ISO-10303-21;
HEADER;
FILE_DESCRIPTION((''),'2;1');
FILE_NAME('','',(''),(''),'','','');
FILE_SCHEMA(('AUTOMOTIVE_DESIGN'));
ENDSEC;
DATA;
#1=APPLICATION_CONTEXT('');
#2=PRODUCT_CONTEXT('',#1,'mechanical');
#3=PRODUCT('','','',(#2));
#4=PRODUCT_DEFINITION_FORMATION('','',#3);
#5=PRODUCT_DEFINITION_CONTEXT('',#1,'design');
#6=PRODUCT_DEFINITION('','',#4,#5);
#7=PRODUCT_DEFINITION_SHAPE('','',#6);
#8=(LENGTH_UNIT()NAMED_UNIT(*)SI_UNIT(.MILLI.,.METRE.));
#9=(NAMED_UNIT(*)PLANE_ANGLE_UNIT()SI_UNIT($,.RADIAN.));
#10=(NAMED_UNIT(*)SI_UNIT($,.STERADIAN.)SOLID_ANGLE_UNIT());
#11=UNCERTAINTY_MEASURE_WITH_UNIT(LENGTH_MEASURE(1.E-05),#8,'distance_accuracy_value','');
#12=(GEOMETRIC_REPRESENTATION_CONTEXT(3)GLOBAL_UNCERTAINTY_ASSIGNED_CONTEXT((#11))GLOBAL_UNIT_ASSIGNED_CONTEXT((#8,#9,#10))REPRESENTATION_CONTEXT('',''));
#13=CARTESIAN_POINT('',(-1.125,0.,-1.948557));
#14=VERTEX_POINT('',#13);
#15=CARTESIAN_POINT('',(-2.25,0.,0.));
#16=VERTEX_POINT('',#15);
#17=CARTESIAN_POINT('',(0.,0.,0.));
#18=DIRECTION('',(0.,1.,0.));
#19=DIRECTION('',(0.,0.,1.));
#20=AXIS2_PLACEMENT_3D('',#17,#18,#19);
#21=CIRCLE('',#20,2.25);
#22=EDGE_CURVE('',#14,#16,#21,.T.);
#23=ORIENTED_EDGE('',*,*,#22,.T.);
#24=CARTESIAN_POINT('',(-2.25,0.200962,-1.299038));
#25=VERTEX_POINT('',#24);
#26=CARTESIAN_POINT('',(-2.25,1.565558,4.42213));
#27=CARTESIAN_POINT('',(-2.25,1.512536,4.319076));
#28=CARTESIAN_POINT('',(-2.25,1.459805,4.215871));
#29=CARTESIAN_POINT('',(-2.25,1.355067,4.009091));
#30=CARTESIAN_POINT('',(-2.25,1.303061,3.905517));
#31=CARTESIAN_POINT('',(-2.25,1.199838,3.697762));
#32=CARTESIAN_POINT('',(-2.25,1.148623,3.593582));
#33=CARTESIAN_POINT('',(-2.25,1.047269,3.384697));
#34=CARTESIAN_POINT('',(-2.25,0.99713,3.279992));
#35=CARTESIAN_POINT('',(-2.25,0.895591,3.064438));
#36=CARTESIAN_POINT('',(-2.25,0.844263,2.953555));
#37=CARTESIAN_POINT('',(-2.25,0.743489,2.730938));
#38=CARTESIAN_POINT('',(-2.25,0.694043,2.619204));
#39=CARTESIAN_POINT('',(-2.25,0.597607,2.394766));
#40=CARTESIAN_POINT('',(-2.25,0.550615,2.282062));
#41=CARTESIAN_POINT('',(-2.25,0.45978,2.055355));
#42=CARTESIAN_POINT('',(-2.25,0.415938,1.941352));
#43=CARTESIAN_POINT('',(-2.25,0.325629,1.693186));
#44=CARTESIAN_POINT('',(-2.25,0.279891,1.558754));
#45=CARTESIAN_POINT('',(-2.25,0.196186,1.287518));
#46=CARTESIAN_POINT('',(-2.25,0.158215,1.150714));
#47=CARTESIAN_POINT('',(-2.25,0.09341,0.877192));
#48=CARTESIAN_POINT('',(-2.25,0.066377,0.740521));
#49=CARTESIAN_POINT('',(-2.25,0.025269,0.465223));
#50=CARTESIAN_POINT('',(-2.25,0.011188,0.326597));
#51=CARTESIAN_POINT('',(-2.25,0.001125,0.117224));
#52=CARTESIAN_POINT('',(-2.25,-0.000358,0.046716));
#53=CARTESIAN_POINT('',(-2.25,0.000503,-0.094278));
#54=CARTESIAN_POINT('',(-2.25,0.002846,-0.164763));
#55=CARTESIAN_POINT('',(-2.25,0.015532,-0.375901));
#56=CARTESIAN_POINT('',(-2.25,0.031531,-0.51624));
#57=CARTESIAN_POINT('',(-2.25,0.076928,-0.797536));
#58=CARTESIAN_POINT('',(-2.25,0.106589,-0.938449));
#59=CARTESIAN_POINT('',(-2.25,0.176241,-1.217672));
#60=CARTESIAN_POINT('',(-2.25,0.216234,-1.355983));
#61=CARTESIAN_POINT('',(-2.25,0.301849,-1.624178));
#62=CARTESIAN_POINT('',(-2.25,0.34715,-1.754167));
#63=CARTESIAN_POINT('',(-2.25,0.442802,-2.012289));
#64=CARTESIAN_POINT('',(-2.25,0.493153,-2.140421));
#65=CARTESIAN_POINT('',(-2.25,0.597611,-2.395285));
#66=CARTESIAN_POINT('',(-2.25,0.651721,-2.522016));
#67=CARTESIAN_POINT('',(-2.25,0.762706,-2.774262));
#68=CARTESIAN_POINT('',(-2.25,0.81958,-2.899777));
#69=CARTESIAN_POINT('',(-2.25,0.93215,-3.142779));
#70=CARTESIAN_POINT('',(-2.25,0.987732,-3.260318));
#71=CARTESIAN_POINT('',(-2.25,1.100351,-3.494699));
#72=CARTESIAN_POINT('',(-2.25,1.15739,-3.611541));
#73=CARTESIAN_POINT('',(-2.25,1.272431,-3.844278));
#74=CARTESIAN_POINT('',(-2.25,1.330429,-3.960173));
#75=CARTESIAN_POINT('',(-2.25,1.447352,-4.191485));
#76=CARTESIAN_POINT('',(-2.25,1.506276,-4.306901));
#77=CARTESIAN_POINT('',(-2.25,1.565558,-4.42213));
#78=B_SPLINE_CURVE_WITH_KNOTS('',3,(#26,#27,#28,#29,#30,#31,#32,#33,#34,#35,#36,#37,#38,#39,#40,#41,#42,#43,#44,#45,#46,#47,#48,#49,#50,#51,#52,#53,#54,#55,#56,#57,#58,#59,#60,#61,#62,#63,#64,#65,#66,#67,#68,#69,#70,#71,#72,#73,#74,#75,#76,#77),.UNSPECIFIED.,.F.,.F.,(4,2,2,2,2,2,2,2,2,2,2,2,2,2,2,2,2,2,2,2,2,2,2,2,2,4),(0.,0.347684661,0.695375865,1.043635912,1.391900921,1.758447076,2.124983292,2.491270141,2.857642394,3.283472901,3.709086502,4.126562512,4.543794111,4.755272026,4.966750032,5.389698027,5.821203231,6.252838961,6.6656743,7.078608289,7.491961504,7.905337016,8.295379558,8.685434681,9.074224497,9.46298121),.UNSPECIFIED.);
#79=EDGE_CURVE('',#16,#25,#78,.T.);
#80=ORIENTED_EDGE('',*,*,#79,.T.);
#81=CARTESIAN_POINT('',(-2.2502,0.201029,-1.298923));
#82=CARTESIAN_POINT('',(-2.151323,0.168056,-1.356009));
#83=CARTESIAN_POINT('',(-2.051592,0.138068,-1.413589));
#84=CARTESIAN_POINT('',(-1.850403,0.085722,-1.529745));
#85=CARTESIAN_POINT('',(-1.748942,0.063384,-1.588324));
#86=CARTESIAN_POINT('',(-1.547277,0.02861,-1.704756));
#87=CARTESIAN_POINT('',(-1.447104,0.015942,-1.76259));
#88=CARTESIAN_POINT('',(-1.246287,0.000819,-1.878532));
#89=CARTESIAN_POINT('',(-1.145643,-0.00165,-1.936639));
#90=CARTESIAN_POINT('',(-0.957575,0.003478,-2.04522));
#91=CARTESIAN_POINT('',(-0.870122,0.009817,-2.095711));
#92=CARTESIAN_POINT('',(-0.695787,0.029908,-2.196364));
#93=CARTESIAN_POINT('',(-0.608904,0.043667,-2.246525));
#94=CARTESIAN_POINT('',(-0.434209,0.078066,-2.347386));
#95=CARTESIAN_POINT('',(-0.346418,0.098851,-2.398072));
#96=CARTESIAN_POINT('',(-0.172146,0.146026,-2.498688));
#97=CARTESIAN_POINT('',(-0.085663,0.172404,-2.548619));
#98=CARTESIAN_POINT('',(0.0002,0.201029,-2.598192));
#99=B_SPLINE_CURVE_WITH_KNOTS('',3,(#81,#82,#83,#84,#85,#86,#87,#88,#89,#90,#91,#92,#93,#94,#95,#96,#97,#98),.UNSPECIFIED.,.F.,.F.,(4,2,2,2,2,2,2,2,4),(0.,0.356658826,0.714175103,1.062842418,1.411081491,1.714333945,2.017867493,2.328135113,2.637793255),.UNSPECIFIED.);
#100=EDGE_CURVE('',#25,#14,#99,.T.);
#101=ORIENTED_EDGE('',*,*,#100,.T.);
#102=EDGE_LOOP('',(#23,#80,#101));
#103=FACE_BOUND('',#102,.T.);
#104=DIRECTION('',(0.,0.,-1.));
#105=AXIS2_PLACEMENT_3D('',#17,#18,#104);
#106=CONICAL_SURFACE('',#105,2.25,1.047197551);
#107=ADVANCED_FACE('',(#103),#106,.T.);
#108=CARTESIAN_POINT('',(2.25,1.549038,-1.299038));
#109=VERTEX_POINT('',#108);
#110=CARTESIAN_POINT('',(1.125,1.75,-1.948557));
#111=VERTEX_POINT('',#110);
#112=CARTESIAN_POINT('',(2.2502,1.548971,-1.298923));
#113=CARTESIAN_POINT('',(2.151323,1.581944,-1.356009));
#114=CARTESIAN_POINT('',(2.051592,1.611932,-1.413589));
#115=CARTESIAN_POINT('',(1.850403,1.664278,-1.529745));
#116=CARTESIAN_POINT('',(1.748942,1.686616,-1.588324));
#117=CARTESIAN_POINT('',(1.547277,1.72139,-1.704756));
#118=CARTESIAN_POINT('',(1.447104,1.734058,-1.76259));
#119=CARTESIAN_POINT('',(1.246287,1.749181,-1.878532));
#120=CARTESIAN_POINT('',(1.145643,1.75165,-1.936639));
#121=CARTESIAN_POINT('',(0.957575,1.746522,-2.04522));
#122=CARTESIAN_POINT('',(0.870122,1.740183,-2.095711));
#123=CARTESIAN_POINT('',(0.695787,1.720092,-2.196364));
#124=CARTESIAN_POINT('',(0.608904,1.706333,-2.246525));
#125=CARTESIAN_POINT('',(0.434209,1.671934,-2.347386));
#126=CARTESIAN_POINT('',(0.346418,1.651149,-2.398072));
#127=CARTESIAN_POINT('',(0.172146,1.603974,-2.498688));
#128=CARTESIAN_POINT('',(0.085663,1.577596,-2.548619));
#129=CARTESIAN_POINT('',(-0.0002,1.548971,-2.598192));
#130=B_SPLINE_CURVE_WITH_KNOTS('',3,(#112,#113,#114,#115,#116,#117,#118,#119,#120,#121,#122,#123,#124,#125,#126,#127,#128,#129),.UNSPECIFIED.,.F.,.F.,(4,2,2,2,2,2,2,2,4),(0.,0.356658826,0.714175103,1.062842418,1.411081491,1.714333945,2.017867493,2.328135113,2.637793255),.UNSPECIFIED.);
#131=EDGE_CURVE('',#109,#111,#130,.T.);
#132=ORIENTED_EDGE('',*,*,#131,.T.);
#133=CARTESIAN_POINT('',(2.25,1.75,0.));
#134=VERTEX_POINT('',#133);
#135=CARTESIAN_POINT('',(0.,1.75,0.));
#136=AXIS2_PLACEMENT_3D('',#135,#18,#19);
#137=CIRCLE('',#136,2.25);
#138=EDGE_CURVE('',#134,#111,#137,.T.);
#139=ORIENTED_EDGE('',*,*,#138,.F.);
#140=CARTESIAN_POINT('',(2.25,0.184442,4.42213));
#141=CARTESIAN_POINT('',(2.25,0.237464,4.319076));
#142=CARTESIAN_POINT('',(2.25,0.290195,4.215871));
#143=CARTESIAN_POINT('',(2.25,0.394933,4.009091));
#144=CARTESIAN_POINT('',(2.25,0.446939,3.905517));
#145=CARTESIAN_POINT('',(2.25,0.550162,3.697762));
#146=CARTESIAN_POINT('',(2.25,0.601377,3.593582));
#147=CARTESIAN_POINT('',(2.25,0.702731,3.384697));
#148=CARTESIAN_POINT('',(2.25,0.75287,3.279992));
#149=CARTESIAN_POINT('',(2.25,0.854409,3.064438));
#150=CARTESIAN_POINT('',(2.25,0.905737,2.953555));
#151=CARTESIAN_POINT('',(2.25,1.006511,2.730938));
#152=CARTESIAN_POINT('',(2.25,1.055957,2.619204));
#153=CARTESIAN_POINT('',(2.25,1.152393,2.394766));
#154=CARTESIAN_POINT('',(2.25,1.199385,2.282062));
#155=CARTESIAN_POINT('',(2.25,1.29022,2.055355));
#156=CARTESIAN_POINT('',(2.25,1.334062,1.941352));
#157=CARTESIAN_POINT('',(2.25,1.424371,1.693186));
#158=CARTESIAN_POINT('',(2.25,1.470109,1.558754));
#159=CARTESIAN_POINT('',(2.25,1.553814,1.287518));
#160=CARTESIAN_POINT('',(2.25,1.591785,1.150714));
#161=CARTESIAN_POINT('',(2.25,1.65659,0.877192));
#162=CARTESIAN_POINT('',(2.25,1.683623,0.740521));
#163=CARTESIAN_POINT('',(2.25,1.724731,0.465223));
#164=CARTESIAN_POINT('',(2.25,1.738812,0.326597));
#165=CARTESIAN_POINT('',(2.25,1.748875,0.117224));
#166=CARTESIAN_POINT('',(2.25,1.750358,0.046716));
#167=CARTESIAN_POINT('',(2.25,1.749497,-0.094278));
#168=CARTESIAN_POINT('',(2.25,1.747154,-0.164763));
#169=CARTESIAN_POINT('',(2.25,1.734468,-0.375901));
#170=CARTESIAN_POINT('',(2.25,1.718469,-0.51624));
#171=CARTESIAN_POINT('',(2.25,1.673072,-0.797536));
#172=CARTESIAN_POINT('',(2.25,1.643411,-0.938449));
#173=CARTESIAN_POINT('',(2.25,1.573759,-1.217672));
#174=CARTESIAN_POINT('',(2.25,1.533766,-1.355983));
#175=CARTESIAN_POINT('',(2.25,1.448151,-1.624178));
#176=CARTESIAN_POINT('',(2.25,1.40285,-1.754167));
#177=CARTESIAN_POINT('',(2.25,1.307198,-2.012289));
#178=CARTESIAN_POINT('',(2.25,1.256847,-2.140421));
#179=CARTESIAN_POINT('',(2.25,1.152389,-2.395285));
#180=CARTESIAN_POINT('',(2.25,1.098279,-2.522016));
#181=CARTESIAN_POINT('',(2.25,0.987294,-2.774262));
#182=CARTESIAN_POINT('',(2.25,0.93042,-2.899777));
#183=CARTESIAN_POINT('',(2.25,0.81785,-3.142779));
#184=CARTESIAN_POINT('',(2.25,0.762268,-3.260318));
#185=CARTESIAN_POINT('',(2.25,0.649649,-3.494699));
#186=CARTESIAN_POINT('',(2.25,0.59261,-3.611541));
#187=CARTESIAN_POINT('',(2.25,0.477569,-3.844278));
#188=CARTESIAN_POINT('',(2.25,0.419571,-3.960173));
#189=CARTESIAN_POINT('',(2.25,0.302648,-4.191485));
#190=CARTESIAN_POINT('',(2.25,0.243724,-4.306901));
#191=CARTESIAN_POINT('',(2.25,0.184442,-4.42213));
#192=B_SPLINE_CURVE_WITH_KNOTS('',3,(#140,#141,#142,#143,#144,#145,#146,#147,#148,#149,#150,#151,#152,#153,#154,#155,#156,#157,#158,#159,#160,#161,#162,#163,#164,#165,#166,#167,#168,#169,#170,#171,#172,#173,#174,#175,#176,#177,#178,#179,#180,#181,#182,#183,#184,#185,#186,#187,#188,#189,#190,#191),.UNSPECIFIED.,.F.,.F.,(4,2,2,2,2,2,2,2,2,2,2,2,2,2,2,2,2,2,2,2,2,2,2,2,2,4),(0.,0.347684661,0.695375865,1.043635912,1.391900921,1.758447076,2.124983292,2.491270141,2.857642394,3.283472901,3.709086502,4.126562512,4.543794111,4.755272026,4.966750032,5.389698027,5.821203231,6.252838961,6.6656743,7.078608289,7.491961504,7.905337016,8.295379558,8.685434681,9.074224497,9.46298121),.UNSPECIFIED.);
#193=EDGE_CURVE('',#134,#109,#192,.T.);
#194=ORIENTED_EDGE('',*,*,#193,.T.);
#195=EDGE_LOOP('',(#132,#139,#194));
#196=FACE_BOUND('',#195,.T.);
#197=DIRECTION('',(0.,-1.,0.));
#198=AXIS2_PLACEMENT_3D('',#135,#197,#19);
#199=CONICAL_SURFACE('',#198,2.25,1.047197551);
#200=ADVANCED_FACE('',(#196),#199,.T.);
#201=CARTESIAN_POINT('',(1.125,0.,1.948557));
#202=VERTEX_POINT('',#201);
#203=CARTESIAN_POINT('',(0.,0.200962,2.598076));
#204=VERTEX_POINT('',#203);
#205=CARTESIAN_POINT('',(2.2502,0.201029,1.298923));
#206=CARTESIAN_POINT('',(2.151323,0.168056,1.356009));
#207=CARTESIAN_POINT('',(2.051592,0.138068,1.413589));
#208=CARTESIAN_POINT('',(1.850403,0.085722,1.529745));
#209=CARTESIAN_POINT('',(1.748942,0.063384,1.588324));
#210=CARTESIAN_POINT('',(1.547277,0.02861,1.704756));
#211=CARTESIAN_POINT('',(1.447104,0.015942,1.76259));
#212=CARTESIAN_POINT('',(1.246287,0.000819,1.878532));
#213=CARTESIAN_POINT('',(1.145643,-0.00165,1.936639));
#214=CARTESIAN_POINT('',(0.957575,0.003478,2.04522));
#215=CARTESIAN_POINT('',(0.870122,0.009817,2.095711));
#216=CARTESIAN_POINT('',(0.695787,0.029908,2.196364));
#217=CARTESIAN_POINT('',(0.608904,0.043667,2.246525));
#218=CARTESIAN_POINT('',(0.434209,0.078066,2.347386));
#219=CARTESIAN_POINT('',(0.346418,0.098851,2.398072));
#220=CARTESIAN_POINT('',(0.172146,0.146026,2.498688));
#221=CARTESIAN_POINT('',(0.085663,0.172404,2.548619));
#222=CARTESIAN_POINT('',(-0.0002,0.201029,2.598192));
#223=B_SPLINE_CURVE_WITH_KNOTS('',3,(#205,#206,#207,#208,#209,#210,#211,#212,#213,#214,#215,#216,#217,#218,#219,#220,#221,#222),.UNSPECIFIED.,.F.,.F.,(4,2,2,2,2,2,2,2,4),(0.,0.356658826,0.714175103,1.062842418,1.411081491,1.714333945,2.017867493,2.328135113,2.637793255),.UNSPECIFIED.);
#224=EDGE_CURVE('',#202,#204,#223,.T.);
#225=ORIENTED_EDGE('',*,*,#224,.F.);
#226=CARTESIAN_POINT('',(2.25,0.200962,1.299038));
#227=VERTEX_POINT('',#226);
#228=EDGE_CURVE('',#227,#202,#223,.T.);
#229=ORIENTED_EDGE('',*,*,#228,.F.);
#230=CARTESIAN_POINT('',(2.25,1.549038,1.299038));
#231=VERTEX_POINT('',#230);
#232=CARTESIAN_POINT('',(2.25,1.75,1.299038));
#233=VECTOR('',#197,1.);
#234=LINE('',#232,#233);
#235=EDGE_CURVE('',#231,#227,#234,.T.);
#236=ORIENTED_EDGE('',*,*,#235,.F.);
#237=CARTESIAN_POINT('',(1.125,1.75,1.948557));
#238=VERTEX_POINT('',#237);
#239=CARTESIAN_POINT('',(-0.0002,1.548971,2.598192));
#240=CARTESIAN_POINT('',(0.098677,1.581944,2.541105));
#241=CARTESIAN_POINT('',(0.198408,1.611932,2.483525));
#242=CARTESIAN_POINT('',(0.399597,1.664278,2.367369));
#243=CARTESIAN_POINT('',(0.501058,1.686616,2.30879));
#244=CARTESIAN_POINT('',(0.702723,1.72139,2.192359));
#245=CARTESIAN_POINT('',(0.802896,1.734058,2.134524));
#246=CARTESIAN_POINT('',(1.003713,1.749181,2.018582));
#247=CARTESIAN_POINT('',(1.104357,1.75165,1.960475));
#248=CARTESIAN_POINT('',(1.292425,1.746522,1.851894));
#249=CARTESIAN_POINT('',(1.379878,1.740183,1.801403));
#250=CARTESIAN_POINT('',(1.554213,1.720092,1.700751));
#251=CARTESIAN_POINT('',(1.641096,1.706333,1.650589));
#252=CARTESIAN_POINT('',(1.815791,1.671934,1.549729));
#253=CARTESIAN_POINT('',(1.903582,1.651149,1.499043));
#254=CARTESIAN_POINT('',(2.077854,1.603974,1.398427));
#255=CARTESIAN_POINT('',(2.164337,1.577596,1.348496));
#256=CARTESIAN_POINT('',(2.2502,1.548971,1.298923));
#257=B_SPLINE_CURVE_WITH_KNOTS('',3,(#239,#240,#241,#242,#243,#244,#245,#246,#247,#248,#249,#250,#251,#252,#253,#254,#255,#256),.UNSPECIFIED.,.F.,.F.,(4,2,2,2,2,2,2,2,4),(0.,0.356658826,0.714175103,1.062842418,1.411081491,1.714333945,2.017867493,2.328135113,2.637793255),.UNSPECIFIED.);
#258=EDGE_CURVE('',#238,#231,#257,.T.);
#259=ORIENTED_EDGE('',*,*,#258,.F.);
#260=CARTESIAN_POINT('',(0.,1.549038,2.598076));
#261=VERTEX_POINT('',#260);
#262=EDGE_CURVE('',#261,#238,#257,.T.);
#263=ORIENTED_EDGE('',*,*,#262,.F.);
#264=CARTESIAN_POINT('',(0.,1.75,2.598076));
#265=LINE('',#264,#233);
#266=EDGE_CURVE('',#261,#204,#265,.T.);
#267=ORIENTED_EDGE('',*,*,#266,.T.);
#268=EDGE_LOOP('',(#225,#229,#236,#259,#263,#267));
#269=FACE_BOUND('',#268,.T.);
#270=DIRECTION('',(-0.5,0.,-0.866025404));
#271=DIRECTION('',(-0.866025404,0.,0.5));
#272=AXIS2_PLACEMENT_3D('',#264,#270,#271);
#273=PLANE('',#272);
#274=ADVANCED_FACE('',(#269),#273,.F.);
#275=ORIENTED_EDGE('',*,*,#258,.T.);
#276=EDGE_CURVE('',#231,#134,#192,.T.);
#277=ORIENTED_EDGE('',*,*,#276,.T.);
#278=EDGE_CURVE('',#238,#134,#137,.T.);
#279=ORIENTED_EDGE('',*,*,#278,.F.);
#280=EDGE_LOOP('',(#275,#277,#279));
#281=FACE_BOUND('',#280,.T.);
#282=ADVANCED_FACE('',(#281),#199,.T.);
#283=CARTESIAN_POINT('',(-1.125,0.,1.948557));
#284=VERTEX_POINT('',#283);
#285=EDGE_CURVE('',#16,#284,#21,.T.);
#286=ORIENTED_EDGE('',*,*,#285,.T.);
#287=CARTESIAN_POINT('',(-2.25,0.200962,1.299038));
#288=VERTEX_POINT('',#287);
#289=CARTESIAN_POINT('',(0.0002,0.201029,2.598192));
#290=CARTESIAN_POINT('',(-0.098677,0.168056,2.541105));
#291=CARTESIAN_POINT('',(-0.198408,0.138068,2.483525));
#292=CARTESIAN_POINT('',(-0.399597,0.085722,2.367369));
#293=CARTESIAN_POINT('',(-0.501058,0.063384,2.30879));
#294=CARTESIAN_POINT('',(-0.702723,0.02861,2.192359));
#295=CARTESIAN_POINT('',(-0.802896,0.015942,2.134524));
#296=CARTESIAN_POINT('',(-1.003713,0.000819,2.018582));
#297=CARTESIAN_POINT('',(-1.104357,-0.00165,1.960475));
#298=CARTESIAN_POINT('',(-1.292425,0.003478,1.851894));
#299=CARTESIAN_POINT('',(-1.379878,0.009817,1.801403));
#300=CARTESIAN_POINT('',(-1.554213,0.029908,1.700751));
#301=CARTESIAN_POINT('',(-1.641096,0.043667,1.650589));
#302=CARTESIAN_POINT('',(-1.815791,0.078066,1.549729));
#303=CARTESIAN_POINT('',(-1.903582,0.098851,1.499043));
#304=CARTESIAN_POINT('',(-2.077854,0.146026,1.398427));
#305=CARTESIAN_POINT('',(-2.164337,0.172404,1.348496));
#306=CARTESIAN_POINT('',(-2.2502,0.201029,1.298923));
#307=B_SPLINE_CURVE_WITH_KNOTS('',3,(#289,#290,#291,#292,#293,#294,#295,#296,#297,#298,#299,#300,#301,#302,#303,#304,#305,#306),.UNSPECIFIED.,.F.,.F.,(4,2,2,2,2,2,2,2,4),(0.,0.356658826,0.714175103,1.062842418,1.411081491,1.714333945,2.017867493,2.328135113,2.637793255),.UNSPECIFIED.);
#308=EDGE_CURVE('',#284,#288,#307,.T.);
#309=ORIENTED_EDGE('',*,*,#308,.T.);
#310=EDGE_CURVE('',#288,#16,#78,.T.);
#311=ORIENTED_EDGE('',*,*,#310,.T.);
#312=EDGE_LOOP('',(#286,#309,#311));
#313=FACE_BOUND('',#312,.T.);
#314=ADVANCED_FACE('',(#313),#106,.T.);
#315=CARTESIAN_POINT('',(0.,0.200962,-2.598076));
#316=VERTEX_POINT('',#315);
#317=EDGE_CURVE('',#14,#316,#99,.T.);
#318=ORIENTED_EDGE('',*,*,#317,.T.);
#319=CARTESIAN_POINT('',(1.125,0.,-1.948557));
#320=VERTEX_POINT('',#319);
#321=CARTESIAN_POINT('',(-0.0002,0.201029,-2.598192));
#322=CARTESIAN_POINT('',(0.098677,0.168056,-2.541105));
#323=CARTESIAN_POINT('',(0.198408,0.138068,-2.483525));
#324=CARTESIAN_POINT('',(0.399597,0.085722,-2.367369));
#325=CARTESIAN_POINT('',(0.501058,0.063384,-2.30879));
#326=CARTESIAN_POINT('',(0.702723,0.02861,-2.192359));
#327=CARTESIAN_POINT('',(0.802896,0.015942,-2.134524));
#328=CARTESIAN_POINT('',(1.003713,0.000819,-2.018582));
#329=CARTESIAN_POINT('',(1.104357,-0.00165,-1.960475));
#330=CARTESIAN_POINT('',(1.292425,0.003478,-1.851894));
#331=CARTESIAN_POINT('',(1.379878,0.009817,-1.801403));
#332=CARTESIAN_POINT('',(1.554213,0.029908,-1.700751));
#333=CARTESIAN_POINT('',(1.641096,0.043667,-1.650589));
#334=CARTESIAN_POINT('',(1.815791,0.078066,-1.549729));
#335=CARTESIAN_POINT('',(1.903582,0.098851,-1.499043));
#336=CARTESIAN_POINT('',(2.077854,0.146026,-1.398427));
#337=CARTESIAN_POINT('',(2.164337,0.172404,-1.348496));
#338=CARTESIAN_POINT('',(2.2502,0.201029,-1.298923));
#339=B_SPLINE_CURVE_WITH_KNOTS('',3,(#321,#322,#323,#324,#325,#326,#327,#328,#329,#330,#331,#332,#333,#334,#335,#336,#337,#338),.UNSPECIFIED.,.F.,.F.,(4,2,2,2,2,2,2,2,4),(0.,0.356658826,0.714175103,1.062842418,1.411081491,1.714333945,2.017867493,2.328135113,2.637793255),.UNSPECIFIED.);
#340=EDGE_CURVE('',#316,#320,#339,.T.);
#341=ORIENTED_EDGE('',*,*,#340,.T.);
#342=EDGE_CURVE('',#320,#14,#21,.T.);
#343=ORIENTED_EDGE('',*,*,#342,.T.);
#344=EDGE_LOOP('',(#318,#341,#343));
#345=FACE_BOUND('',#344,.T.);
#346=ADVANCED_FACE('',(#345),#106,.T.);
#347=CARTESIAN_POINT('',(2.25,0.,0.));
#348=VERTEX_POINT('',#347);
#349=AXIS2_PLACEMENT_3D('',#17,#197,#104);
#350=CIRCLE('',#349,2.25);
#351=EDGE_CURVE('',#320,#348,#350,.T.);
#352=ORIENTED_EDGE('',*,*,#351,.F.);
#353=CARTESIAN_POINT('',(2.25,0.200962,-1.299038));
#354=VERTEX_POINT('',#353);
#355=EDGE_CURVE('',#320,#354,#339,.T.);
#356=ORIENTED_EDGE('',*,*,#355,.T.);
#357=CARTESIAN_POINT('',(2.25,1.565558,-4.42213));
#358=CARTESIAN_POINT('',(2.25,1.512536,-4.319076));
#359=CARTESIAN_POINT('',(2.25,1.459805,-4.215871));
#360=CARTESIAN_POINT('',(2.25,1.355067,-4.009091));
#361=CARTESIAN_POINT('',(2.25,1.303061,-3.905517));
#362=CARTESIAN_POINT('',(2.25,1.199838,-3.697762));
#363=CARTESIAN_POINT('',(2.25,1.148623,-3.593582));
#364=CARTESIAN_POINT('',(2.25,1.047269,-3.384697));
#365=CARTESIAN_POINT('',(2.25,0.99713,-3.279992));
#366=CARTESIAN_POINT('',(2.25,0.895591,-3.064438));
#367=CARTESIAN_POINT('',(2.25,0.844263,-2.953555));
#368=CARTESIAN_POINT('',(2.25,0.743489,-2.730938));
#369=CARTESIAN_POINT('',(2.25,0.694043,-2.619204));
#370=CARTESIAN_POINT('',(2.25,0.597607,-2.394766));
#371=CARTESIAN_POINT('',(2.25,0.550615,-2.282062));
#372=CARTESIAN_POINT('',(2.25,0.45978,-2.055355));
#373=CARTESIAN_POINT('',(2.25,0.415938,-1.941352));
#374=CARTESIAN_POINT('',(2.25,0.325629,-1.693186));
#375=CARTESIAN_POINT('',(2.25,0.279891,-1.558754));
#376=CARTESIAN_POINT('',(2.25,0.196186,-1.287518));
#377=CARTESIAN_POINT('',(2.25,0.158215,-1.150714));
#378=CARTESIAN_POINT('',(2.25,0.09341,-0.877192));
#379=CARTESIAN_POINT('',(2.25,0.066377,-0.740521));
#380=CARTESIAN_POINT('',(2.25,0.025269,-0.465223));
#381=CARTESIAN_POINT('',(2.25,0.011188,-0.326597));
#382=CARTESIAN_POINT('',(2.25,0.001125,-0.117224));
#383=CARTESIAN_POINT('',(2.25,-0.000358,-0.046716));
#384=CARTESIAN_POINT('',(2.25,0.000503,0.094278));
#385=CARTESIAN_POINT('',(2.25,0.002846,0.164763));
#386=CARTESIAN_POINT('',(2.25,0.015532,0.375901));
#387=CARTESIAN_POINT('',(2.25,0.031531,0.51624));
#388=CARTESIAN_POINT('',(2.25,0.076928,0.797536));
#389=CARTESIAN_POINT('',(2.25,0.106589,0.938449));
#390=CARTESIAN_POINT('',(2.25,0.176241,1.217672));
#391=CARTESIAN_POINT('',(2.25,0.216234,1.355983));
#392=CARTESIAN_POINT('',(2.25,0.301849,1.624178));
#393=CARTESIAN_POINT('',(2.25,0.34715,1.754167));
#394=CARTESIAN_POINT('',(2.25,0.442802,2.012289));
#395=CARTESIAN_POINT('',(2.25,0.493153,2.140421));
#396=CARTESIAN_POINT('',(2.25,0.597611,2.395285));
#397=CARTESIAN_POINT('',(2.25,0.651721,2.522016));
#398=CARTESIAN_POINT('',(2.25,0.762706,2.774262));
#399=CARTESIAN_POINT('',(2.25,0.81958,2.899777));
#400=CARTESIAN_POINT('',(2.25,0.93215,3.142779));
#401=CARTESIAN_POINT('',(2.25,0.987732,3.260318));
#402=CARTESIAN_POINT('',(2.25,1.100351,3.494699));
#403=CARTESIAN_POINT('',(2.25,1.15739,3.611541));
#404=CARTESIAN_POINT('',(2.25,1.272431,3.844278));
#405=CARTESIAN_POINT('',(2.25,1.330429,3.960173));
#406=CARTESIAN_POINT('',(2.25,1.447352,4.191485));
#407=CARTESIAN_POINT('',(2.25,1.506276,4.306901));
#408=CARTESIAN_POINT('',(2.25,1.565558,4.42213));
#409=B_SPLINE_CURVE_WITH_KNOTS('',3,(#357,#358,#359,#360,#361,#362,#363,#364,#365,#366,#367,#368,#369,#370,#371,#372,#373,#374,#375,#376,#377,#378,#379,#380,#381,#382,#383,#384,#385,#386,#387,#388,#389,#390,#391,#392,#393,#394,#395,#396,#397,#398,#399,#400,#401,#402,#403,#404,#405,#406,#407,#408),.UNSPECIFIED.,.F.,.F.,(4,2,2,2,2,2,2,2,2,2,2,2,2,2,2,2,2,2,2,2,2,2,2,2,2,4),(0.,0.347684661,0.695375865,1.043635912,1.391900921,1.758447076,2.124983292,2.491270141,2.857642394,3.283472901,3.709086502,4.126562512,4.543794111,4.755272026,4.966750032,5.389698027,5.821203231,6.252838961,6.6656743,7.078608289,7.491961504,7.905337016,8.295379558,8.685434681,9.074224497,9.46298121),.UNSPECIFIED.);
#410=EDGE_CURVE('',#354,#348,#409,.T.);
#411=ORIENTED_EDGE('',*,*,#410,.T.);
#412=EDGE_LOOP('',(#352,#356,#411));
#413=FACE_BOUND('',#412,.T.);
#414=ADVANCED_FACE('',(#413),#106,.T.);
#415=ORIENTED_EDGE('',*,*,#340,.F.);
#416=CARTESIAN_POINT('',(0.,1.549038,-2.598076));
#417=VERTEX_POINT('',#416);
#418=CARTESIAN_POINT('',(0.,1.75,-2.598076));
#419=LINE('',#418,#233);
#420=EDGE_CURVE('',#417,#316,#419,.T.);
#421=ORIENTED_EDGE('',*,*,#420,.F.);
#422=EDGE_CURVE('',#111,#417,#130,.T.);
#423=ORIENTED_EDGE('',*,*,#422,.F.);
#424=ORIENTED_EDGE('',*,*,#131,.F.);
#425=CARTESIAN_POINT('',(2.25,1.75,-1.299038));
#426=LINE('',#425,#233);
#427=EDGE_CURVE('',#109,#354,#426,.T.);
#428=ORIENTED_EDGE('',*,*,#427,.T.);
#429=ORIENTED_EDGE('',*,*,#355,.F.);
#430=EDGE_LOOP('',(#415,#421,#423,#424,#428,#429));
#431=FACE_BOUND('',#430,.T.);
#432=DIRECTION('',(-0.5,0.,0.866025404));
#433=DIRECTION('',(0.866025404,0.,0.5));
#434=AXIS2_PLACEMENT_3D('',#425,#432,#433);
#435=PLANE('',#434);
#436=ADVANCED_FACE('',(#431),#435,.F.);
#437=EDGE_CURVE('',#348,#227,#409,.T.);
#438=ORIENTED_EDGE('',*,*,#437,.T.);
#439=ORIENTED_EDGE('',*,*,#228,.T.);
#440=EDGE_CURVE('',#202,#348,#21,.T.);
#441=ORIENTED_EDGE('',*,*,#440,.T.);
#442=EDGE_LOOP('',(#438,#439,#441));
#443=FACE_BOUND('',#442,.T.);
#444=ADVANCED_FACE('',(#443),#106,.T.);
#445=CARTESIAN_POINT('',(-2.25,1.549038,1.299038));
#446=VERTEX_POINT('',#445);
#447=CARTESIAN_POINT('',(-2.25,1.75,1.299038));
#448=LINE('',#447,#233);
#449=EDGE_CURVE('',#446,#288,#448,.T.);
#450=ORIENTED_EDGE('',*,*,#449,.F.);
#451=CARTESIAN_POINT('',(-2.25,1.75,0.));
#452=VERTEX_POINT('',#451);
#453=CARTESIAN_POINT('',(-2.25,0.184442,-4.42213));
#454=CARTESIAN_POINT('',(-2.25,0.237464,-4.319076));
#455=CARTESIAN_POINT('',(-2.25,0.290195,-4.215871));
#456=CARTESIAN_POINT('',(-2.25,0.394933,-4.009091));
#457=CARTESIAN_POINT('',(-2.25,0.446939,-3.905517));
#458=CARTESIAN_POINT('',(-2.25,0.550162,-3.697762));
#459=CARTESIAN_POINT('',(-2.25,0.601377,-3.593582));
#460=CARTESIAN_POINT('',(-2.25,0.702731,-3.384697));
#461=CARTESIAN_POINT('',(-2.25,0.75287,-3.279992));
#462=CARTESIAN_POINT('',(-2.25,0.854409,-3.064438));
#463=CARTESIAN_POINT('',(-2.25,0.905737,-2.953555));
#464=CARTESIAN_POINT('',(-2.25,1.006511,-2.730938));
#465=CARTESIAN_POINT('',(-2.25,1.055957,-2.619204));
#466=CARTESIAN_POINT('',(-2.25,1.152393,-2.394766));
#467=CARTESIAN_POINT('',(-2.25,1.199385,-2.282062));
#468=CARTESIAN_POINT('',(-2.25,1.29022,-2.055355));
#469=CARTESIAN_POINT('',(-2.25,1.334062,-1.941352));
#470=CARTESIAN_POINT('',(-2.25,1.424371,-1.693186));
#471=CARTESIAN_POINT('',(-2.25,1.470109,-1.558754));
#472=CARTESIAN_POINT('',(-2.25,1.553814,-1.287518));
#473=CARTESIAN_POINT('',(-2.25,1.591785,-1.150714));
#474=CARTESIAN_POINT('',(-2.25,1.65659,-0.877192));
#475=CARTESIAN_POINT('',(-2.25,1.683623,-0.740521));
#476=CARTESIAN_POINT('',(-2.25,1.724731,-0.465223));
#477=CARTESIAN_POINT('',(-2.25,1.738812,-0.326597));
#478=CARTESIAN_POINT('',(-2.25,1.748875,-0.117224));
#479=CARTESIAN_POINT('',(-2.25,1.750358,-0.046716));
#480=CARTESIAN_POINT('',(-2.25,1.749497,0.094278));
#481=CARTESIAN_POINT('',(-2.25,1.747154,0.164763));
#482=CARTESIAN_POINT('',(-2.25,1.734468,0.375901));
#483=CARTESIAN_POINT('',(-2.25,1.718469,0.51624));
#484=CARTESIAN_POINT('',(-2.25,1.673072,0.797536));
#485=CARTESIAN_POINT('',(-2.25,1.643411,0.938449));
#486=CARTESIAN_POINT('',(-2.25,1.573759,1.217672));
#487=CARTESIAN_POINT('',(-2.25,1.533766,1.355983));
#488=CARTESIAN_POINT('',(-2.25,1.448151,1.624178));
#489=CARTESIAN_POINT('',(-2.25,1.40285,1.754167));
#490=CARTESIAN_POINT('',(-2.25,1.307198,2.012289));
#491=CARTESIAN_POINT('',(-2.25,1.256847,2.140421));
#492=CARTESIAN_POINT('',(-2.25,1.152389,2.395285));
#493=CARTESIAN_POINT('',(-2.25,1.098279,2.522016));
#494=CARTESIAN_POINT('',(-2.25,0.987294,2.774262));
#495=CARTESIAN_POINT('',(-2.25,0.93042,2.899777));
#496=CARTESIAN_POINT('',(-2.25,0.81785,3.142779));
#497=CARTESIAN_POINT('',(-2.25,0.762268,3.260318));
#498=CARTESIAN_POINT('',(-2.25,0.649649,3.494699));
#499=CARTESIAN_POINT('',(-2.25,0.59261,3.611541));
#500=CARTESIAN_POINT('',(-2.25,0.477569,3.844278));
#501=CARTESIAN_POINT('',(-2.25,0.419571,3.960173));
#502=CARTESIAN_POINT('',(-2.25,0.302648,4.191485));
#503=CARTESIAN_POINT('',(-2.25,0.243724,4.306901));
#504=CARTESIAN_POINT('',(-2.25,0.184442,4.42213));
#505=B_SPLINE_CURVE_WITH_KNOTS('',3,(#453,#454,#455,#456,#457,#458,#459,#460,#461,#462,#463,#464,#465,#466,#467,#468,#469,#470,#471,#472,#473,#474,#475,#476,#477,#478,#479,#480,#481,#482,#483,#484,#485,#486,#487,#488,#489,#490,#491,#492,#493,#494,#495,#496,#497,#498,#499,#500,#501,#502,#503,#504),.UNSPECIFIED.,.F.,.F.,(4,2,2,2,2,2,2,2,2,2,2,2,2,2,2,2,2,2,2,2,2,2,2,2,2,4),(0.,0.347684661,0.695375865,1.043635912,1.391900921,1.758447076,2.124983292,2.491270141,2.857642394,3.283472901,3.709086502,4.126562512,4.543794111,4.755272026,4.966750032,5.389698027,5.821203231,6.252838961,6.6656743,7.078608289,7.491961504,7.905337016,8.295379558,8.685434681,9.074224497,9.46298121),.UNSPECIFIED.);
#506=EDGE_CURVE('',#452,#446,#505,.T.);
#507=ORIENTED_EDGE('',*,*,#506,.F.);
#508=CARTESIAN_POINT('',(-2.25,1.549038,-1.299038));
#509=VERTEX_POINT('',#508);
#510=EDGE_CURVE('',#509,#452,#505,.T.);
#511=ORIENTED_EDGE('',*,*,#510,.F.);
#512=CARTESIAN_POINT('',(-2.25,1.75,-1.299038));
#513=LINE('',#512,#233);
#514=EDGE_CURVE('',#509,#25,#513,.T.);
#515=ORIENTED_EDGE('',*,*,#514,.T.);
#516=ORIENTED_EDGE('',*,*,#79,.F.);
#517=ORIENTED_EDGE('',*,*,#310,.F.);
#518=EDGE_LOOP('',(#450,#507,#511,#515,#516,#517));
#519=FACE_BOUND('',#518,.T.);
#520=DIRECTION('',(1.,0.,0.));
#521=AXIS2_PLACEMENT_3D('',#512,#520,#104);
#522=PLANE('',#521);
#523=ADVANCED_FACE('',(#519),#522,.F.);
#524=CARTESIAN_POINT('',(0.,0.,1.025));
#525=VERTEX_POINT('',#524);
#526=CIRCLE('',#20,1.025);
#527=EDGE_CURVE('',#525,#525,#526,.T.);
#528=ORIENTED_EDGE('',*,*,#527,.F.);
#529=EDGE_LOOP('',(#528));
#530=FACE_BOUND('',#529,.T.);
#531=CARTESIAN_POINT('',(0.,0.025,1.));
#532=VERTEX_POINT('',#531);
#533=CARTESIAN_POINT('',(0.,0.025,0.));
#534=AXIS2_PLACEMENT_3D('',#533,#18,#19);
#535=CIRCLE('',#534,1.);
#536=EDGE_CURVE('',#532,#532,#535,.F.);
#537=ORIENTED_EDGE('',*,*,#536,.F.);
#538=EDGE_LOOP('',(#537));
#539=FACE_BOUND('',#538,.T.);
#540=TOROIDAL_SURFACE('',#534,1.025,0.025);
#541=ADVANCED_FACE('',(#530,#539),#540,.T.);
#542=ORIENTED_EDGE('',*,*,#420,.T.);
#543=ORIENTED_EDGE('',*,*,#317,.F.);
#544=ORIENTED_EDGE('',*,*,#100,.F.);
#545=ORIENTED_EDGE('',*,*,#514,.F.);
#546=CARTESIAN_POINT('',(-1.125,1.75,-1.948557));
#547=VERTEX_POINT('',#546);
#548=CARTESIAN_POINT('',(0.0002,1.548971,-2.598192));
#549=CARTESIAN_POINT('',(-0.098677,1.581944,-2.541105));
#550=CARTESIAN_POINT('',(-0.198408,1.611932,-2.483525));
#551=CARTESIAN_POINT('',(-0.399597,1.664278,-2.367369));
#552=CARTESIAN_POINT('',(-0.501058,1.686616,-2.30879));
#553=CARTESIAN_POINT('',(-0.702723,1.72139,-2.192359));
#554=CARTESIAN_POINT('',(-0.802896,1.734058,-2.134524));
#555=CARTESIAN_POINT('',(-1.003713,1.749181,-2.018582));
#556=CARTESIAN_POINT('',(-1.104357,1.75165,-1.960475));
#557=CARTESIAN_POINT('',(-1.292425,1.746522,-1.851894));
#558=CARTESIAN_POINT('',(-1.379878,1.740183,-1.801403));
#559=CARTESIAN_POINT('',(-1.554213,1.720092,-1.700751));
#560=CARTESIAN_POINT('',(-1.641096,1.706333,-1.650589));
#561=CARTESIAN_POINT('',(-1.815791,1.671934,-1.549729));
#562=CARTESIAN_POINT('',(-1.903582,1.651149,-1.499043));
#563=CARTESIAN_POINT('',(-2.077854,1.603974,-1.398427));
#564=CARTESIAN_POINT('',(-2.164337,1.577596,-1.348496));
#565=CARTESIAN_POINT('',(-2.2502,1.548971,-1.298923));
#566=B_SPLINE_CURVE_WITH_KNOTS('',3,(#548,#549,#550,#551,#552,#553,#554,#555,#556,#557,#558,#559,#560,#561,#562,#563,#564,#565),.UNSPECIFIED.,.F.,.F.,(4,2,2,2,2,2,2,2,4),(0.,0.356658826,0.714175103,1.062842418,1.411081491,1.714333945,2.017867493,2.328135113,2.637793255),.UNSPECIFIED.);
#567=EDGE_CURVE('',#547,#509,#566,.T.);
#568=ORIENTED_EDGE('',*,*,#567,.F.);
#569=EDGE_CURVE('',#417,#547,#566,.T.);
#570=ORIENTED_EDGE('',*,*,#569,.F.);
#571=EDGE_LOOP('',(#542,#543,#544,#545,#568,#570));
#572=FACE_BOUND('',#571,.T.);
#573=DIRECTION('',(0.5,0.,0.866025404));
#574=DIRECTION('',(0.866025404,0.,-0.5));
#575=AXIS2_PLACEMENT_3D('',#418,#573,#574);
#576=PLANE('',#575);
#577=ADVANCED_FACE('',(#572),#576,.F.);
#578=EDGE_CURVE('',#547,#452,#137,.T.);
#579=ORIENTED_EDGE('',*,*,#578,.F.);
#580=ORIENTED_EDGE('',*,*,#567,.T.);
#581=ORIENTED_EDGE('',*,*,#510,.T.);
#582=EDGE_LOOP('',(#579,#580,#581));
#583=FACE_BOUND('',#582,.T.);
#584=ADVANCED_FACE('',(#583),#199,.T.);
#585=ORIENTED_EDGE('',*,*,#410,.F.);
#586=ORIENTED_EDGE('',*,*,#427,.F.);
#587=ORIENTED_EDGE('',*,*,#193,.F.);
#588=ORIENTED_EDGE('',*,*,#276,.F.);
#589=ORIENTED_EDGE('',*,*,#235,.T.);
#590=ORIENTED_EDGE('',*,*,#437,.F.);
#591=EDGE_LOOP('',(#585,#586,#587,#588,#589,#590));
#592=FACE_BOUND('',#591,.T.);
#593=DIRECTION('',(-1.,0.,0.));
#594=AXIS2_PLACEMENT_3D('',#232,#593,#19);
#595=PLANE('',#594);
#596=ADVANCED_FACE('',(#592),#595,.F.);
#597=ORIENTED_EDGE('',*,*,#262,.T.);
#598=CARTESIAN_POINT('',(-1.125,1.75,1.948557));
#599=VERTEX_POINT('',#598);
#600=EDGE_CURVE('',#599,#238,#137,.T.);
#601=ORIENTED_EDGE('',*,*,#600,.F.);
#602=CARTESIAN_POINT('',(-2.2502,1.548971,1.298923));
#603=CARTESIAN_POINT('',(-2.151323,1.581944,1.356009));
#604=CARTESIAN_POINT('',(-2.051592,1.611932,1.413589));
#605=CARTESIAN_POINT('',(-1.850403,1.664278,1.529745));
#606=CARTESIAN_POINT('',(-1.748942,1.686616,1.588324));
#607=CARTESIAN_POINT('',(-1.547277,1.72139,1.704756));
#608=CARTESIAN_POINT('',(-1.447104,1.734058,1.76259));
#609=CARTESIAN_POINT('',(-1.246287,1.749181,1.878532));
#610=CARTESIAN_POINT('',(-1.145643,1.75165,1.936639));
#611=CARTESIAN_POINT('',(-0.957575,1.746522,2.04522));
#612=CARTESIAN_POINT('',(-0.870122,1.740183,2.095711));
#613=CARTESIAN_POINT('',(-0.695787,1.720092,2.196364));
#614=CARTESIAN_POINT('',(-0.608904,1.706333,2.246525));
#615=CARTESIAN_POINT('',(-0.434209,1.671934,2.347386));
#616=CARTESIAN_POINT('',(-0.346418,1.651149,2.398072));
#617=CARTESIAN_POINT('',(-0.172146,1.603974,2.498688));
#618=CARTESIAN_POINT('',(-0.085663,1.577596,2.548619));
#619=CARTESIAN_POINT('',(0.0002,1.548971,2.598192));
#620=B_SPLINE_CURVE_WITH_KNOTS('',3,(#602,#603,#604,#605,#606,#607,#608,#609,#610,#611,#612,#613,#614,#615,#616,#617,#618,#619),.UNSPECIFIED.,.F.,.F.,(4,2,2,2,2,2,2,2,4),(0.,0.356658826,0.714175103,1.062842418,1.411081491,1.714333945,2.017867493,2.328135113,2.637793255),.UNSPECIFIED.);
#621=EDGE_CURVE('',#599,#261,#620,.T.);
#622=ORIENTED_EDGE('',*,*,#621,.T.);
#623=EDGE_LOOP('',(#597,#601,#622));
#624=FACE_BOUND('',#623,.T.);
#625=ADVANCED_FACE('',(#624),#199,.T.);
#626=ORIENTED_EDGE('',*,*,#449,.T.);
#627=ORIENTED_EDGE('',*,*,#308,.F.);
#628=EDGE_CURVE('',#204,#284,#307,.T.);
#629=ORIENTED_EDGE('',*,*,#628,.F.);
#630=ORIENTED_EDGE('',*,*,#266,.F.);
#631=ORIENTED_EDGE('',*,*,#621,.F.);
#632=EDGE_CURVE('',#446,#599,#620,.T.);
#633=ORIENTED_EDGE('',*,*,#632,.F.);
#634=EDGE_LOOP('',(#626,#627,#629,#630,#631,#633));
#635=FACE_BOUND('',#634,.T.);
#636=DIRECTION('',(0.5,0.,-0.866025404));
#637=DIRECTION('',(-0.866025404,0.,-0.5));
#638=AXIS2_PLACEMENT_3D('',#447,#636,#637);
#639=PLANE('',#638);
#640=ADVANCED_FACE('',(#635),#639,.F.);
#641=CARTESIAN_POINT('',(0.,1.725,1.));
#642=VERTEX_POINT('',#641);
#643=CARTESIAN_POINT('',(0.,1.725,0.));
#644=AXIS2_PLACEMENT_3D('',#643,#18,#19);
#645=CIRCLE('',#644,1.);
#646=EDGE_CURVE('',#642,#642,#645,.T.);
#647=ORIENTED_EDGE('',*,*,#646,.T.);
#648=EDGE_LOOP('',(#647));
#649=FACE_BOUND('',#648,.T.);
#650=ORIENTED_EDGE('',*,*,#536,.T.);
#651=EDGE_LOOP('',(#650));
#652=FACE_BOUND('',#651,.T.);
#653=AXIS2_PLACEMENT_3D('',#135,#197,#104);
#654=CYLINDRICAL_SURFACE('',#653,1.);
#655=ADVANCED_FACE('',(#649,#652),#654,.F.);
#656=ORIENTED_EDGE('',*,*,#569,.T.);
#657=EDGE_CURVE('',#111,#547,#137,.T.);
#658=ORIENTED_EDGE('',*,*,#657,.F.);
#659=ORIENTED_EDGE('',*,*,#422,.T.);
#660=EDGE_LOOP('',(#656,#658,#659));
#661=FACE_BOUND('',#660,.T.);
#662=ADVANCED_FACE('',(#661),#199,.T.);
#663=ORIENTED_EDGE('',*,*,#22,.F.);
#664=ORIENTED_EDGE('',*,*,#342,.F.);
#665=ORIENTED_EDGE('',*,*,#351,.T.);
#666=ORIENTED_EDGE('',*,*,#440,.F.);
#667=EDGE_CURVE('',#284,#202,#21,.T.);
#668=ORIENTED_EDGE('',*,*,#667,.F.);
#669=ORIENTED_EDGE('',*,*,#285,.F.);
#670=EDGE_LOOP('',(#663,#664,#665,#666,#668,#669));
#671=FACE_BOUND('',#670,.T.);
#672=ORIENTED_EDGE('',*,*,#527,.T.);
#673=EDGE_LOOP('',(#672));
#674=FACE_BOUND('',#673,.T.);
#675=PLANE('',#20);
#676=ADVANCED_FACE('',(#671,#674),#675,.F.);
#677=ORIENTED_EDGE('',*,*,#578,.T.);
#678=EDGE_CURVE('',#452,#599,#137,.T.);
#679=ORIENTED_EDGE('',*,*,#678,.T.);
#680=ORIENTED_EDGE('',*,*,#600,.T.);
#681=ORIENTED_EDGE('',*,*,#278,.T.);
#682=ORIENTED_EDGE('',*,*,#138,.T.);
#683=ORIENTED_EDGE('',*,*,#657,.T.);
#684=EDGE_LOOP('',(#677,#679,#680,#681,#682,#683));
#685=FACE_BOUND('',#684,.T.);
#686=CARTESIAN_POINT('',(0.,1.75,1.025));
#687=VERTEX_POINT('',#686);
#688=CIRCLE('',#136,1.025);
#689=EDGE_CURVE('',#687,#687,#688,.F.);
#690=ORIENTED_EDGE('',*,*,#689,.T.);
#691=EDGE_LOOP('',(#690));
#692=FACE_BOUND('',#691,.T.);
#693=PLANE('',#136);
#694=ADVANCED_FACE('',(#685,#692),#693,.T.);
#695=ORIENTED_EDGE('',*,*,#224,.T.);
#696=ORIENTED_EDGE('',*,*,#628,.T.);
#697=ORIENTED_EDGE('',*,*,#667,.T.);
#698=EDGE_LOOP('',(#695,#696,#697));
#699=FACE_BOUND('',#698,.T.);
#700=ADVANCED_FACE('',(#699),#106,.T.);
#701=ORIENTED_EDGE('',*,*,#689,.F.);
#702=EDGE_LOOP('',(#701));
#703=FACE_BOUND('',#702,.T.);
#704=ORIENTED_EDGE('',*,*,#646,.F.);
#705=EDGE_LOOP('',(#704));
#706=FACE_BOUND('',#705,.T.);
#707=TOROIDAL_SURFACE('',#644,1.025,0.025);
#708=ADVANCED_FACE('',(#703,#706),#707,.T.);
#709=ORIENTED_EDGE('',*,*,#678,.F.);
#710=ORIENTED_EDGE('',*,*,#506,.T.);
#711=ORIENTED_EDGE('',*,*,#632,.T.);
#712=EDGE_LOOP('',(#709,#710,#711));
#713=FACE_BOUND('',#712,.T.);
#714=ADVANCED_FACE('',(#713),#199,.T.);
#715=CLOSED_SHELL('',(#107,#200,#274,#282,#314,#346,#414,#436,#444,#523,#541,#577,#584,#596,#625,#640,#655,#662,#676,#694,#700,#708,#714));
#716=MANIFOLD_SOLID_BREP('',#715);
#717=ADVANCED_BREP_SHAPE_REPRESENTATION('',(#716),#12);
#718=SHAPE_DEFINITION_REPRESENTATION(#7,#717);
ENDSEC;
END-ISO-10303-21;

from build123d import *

# Parameters (mm, degrees)
SKETCH1_R           = 1
BOSS_EXTRUDE1_DEPTH = 1.75
SKETCH2_OUTSIDE_W   = 13.98
SKETCH2_OUTSIDE_H   = 14.676
SKETCH2_OUTSIDE_R   = 2.25
CUT_EXTRUDE1_DEPTH  = 1.75
CUT_EXTRUDE1_TAPER  = 60
SKETCH3_OUTSIDE_W   = 13.98
SKETCH3_OUTSIDE_H   = 14.676
SKETCH3_OUTSIDE_R   = 2.25
CUT_EXTRUDE3_DEPTH  = 1.75
CUT_EXTRUDE3_TAPER  = 60
FILLET1_R           = 0.025


with BuildPart() as part:
    # Sketch1 → Boss-Extrude1 (new body)
    with BuildSketch(Plane(origin=(0, 0, 0), x_dir=(1, 0, 0), z_dir=(0, 1, 0))):
        Polygon((2.25, -1.299038106), (2.25, 1.299038106), (0, 2.598076211), (-2.25, 1.299038106), (-2.25, -1.299038106), (0, -2.598076211), align=None)
        Circle(SKETCH1_R, mode=Mode.SUBTRACT)
    extrude(amount=BOSS_EXTRUDE1_DEPTH)

    # Sketch2 outside → Cut-Extrude1 (cut)
    with BuildSketch(Plane(origin=(0, 1.75, 0), x_dir=(1, 0, 0), z_dir=(0, 1, 0))):
        Rectangle(SKETCH2_OUTSIDE_W, SKETCH2_OUTSIDE_H)
        Circle(SKETCH2_OUTSIDE_R, mode=Mode.SUBTRACT)
    extrude(amount=-CUT_EXTRUDE1_DEPTH, taper=CUT_EXTRUDE1_TAPER, mode=Mode.SUBTRACT)

    # Sketch3 outside → Cut-Extrude3 (cut)
    with BuildSketch(Plane.XZ):
        Rectangle(SKETCH3_OUTSIDE_W, SKETCH3_OUTSIDE_H)
        Circle(SKETCH3_OUTSIDE_R, mode=Mode.SUBTRACT)
    extrude(amount=-CUT_EXTRUDE3_DEPTH, taper=CUT_EXTRUDE3_TAPER, mode=Mode.SUBTRACT)

    # Fillet1
    fillet1_edges = [part.edges().sort_by_distance(p)[0] for p in [
        (-1, 0, 0),
        (-1, 1.75, 0),
    ]]
    fillet(fillet1_edges, radius=FILLET1_R)


solid = part.part
